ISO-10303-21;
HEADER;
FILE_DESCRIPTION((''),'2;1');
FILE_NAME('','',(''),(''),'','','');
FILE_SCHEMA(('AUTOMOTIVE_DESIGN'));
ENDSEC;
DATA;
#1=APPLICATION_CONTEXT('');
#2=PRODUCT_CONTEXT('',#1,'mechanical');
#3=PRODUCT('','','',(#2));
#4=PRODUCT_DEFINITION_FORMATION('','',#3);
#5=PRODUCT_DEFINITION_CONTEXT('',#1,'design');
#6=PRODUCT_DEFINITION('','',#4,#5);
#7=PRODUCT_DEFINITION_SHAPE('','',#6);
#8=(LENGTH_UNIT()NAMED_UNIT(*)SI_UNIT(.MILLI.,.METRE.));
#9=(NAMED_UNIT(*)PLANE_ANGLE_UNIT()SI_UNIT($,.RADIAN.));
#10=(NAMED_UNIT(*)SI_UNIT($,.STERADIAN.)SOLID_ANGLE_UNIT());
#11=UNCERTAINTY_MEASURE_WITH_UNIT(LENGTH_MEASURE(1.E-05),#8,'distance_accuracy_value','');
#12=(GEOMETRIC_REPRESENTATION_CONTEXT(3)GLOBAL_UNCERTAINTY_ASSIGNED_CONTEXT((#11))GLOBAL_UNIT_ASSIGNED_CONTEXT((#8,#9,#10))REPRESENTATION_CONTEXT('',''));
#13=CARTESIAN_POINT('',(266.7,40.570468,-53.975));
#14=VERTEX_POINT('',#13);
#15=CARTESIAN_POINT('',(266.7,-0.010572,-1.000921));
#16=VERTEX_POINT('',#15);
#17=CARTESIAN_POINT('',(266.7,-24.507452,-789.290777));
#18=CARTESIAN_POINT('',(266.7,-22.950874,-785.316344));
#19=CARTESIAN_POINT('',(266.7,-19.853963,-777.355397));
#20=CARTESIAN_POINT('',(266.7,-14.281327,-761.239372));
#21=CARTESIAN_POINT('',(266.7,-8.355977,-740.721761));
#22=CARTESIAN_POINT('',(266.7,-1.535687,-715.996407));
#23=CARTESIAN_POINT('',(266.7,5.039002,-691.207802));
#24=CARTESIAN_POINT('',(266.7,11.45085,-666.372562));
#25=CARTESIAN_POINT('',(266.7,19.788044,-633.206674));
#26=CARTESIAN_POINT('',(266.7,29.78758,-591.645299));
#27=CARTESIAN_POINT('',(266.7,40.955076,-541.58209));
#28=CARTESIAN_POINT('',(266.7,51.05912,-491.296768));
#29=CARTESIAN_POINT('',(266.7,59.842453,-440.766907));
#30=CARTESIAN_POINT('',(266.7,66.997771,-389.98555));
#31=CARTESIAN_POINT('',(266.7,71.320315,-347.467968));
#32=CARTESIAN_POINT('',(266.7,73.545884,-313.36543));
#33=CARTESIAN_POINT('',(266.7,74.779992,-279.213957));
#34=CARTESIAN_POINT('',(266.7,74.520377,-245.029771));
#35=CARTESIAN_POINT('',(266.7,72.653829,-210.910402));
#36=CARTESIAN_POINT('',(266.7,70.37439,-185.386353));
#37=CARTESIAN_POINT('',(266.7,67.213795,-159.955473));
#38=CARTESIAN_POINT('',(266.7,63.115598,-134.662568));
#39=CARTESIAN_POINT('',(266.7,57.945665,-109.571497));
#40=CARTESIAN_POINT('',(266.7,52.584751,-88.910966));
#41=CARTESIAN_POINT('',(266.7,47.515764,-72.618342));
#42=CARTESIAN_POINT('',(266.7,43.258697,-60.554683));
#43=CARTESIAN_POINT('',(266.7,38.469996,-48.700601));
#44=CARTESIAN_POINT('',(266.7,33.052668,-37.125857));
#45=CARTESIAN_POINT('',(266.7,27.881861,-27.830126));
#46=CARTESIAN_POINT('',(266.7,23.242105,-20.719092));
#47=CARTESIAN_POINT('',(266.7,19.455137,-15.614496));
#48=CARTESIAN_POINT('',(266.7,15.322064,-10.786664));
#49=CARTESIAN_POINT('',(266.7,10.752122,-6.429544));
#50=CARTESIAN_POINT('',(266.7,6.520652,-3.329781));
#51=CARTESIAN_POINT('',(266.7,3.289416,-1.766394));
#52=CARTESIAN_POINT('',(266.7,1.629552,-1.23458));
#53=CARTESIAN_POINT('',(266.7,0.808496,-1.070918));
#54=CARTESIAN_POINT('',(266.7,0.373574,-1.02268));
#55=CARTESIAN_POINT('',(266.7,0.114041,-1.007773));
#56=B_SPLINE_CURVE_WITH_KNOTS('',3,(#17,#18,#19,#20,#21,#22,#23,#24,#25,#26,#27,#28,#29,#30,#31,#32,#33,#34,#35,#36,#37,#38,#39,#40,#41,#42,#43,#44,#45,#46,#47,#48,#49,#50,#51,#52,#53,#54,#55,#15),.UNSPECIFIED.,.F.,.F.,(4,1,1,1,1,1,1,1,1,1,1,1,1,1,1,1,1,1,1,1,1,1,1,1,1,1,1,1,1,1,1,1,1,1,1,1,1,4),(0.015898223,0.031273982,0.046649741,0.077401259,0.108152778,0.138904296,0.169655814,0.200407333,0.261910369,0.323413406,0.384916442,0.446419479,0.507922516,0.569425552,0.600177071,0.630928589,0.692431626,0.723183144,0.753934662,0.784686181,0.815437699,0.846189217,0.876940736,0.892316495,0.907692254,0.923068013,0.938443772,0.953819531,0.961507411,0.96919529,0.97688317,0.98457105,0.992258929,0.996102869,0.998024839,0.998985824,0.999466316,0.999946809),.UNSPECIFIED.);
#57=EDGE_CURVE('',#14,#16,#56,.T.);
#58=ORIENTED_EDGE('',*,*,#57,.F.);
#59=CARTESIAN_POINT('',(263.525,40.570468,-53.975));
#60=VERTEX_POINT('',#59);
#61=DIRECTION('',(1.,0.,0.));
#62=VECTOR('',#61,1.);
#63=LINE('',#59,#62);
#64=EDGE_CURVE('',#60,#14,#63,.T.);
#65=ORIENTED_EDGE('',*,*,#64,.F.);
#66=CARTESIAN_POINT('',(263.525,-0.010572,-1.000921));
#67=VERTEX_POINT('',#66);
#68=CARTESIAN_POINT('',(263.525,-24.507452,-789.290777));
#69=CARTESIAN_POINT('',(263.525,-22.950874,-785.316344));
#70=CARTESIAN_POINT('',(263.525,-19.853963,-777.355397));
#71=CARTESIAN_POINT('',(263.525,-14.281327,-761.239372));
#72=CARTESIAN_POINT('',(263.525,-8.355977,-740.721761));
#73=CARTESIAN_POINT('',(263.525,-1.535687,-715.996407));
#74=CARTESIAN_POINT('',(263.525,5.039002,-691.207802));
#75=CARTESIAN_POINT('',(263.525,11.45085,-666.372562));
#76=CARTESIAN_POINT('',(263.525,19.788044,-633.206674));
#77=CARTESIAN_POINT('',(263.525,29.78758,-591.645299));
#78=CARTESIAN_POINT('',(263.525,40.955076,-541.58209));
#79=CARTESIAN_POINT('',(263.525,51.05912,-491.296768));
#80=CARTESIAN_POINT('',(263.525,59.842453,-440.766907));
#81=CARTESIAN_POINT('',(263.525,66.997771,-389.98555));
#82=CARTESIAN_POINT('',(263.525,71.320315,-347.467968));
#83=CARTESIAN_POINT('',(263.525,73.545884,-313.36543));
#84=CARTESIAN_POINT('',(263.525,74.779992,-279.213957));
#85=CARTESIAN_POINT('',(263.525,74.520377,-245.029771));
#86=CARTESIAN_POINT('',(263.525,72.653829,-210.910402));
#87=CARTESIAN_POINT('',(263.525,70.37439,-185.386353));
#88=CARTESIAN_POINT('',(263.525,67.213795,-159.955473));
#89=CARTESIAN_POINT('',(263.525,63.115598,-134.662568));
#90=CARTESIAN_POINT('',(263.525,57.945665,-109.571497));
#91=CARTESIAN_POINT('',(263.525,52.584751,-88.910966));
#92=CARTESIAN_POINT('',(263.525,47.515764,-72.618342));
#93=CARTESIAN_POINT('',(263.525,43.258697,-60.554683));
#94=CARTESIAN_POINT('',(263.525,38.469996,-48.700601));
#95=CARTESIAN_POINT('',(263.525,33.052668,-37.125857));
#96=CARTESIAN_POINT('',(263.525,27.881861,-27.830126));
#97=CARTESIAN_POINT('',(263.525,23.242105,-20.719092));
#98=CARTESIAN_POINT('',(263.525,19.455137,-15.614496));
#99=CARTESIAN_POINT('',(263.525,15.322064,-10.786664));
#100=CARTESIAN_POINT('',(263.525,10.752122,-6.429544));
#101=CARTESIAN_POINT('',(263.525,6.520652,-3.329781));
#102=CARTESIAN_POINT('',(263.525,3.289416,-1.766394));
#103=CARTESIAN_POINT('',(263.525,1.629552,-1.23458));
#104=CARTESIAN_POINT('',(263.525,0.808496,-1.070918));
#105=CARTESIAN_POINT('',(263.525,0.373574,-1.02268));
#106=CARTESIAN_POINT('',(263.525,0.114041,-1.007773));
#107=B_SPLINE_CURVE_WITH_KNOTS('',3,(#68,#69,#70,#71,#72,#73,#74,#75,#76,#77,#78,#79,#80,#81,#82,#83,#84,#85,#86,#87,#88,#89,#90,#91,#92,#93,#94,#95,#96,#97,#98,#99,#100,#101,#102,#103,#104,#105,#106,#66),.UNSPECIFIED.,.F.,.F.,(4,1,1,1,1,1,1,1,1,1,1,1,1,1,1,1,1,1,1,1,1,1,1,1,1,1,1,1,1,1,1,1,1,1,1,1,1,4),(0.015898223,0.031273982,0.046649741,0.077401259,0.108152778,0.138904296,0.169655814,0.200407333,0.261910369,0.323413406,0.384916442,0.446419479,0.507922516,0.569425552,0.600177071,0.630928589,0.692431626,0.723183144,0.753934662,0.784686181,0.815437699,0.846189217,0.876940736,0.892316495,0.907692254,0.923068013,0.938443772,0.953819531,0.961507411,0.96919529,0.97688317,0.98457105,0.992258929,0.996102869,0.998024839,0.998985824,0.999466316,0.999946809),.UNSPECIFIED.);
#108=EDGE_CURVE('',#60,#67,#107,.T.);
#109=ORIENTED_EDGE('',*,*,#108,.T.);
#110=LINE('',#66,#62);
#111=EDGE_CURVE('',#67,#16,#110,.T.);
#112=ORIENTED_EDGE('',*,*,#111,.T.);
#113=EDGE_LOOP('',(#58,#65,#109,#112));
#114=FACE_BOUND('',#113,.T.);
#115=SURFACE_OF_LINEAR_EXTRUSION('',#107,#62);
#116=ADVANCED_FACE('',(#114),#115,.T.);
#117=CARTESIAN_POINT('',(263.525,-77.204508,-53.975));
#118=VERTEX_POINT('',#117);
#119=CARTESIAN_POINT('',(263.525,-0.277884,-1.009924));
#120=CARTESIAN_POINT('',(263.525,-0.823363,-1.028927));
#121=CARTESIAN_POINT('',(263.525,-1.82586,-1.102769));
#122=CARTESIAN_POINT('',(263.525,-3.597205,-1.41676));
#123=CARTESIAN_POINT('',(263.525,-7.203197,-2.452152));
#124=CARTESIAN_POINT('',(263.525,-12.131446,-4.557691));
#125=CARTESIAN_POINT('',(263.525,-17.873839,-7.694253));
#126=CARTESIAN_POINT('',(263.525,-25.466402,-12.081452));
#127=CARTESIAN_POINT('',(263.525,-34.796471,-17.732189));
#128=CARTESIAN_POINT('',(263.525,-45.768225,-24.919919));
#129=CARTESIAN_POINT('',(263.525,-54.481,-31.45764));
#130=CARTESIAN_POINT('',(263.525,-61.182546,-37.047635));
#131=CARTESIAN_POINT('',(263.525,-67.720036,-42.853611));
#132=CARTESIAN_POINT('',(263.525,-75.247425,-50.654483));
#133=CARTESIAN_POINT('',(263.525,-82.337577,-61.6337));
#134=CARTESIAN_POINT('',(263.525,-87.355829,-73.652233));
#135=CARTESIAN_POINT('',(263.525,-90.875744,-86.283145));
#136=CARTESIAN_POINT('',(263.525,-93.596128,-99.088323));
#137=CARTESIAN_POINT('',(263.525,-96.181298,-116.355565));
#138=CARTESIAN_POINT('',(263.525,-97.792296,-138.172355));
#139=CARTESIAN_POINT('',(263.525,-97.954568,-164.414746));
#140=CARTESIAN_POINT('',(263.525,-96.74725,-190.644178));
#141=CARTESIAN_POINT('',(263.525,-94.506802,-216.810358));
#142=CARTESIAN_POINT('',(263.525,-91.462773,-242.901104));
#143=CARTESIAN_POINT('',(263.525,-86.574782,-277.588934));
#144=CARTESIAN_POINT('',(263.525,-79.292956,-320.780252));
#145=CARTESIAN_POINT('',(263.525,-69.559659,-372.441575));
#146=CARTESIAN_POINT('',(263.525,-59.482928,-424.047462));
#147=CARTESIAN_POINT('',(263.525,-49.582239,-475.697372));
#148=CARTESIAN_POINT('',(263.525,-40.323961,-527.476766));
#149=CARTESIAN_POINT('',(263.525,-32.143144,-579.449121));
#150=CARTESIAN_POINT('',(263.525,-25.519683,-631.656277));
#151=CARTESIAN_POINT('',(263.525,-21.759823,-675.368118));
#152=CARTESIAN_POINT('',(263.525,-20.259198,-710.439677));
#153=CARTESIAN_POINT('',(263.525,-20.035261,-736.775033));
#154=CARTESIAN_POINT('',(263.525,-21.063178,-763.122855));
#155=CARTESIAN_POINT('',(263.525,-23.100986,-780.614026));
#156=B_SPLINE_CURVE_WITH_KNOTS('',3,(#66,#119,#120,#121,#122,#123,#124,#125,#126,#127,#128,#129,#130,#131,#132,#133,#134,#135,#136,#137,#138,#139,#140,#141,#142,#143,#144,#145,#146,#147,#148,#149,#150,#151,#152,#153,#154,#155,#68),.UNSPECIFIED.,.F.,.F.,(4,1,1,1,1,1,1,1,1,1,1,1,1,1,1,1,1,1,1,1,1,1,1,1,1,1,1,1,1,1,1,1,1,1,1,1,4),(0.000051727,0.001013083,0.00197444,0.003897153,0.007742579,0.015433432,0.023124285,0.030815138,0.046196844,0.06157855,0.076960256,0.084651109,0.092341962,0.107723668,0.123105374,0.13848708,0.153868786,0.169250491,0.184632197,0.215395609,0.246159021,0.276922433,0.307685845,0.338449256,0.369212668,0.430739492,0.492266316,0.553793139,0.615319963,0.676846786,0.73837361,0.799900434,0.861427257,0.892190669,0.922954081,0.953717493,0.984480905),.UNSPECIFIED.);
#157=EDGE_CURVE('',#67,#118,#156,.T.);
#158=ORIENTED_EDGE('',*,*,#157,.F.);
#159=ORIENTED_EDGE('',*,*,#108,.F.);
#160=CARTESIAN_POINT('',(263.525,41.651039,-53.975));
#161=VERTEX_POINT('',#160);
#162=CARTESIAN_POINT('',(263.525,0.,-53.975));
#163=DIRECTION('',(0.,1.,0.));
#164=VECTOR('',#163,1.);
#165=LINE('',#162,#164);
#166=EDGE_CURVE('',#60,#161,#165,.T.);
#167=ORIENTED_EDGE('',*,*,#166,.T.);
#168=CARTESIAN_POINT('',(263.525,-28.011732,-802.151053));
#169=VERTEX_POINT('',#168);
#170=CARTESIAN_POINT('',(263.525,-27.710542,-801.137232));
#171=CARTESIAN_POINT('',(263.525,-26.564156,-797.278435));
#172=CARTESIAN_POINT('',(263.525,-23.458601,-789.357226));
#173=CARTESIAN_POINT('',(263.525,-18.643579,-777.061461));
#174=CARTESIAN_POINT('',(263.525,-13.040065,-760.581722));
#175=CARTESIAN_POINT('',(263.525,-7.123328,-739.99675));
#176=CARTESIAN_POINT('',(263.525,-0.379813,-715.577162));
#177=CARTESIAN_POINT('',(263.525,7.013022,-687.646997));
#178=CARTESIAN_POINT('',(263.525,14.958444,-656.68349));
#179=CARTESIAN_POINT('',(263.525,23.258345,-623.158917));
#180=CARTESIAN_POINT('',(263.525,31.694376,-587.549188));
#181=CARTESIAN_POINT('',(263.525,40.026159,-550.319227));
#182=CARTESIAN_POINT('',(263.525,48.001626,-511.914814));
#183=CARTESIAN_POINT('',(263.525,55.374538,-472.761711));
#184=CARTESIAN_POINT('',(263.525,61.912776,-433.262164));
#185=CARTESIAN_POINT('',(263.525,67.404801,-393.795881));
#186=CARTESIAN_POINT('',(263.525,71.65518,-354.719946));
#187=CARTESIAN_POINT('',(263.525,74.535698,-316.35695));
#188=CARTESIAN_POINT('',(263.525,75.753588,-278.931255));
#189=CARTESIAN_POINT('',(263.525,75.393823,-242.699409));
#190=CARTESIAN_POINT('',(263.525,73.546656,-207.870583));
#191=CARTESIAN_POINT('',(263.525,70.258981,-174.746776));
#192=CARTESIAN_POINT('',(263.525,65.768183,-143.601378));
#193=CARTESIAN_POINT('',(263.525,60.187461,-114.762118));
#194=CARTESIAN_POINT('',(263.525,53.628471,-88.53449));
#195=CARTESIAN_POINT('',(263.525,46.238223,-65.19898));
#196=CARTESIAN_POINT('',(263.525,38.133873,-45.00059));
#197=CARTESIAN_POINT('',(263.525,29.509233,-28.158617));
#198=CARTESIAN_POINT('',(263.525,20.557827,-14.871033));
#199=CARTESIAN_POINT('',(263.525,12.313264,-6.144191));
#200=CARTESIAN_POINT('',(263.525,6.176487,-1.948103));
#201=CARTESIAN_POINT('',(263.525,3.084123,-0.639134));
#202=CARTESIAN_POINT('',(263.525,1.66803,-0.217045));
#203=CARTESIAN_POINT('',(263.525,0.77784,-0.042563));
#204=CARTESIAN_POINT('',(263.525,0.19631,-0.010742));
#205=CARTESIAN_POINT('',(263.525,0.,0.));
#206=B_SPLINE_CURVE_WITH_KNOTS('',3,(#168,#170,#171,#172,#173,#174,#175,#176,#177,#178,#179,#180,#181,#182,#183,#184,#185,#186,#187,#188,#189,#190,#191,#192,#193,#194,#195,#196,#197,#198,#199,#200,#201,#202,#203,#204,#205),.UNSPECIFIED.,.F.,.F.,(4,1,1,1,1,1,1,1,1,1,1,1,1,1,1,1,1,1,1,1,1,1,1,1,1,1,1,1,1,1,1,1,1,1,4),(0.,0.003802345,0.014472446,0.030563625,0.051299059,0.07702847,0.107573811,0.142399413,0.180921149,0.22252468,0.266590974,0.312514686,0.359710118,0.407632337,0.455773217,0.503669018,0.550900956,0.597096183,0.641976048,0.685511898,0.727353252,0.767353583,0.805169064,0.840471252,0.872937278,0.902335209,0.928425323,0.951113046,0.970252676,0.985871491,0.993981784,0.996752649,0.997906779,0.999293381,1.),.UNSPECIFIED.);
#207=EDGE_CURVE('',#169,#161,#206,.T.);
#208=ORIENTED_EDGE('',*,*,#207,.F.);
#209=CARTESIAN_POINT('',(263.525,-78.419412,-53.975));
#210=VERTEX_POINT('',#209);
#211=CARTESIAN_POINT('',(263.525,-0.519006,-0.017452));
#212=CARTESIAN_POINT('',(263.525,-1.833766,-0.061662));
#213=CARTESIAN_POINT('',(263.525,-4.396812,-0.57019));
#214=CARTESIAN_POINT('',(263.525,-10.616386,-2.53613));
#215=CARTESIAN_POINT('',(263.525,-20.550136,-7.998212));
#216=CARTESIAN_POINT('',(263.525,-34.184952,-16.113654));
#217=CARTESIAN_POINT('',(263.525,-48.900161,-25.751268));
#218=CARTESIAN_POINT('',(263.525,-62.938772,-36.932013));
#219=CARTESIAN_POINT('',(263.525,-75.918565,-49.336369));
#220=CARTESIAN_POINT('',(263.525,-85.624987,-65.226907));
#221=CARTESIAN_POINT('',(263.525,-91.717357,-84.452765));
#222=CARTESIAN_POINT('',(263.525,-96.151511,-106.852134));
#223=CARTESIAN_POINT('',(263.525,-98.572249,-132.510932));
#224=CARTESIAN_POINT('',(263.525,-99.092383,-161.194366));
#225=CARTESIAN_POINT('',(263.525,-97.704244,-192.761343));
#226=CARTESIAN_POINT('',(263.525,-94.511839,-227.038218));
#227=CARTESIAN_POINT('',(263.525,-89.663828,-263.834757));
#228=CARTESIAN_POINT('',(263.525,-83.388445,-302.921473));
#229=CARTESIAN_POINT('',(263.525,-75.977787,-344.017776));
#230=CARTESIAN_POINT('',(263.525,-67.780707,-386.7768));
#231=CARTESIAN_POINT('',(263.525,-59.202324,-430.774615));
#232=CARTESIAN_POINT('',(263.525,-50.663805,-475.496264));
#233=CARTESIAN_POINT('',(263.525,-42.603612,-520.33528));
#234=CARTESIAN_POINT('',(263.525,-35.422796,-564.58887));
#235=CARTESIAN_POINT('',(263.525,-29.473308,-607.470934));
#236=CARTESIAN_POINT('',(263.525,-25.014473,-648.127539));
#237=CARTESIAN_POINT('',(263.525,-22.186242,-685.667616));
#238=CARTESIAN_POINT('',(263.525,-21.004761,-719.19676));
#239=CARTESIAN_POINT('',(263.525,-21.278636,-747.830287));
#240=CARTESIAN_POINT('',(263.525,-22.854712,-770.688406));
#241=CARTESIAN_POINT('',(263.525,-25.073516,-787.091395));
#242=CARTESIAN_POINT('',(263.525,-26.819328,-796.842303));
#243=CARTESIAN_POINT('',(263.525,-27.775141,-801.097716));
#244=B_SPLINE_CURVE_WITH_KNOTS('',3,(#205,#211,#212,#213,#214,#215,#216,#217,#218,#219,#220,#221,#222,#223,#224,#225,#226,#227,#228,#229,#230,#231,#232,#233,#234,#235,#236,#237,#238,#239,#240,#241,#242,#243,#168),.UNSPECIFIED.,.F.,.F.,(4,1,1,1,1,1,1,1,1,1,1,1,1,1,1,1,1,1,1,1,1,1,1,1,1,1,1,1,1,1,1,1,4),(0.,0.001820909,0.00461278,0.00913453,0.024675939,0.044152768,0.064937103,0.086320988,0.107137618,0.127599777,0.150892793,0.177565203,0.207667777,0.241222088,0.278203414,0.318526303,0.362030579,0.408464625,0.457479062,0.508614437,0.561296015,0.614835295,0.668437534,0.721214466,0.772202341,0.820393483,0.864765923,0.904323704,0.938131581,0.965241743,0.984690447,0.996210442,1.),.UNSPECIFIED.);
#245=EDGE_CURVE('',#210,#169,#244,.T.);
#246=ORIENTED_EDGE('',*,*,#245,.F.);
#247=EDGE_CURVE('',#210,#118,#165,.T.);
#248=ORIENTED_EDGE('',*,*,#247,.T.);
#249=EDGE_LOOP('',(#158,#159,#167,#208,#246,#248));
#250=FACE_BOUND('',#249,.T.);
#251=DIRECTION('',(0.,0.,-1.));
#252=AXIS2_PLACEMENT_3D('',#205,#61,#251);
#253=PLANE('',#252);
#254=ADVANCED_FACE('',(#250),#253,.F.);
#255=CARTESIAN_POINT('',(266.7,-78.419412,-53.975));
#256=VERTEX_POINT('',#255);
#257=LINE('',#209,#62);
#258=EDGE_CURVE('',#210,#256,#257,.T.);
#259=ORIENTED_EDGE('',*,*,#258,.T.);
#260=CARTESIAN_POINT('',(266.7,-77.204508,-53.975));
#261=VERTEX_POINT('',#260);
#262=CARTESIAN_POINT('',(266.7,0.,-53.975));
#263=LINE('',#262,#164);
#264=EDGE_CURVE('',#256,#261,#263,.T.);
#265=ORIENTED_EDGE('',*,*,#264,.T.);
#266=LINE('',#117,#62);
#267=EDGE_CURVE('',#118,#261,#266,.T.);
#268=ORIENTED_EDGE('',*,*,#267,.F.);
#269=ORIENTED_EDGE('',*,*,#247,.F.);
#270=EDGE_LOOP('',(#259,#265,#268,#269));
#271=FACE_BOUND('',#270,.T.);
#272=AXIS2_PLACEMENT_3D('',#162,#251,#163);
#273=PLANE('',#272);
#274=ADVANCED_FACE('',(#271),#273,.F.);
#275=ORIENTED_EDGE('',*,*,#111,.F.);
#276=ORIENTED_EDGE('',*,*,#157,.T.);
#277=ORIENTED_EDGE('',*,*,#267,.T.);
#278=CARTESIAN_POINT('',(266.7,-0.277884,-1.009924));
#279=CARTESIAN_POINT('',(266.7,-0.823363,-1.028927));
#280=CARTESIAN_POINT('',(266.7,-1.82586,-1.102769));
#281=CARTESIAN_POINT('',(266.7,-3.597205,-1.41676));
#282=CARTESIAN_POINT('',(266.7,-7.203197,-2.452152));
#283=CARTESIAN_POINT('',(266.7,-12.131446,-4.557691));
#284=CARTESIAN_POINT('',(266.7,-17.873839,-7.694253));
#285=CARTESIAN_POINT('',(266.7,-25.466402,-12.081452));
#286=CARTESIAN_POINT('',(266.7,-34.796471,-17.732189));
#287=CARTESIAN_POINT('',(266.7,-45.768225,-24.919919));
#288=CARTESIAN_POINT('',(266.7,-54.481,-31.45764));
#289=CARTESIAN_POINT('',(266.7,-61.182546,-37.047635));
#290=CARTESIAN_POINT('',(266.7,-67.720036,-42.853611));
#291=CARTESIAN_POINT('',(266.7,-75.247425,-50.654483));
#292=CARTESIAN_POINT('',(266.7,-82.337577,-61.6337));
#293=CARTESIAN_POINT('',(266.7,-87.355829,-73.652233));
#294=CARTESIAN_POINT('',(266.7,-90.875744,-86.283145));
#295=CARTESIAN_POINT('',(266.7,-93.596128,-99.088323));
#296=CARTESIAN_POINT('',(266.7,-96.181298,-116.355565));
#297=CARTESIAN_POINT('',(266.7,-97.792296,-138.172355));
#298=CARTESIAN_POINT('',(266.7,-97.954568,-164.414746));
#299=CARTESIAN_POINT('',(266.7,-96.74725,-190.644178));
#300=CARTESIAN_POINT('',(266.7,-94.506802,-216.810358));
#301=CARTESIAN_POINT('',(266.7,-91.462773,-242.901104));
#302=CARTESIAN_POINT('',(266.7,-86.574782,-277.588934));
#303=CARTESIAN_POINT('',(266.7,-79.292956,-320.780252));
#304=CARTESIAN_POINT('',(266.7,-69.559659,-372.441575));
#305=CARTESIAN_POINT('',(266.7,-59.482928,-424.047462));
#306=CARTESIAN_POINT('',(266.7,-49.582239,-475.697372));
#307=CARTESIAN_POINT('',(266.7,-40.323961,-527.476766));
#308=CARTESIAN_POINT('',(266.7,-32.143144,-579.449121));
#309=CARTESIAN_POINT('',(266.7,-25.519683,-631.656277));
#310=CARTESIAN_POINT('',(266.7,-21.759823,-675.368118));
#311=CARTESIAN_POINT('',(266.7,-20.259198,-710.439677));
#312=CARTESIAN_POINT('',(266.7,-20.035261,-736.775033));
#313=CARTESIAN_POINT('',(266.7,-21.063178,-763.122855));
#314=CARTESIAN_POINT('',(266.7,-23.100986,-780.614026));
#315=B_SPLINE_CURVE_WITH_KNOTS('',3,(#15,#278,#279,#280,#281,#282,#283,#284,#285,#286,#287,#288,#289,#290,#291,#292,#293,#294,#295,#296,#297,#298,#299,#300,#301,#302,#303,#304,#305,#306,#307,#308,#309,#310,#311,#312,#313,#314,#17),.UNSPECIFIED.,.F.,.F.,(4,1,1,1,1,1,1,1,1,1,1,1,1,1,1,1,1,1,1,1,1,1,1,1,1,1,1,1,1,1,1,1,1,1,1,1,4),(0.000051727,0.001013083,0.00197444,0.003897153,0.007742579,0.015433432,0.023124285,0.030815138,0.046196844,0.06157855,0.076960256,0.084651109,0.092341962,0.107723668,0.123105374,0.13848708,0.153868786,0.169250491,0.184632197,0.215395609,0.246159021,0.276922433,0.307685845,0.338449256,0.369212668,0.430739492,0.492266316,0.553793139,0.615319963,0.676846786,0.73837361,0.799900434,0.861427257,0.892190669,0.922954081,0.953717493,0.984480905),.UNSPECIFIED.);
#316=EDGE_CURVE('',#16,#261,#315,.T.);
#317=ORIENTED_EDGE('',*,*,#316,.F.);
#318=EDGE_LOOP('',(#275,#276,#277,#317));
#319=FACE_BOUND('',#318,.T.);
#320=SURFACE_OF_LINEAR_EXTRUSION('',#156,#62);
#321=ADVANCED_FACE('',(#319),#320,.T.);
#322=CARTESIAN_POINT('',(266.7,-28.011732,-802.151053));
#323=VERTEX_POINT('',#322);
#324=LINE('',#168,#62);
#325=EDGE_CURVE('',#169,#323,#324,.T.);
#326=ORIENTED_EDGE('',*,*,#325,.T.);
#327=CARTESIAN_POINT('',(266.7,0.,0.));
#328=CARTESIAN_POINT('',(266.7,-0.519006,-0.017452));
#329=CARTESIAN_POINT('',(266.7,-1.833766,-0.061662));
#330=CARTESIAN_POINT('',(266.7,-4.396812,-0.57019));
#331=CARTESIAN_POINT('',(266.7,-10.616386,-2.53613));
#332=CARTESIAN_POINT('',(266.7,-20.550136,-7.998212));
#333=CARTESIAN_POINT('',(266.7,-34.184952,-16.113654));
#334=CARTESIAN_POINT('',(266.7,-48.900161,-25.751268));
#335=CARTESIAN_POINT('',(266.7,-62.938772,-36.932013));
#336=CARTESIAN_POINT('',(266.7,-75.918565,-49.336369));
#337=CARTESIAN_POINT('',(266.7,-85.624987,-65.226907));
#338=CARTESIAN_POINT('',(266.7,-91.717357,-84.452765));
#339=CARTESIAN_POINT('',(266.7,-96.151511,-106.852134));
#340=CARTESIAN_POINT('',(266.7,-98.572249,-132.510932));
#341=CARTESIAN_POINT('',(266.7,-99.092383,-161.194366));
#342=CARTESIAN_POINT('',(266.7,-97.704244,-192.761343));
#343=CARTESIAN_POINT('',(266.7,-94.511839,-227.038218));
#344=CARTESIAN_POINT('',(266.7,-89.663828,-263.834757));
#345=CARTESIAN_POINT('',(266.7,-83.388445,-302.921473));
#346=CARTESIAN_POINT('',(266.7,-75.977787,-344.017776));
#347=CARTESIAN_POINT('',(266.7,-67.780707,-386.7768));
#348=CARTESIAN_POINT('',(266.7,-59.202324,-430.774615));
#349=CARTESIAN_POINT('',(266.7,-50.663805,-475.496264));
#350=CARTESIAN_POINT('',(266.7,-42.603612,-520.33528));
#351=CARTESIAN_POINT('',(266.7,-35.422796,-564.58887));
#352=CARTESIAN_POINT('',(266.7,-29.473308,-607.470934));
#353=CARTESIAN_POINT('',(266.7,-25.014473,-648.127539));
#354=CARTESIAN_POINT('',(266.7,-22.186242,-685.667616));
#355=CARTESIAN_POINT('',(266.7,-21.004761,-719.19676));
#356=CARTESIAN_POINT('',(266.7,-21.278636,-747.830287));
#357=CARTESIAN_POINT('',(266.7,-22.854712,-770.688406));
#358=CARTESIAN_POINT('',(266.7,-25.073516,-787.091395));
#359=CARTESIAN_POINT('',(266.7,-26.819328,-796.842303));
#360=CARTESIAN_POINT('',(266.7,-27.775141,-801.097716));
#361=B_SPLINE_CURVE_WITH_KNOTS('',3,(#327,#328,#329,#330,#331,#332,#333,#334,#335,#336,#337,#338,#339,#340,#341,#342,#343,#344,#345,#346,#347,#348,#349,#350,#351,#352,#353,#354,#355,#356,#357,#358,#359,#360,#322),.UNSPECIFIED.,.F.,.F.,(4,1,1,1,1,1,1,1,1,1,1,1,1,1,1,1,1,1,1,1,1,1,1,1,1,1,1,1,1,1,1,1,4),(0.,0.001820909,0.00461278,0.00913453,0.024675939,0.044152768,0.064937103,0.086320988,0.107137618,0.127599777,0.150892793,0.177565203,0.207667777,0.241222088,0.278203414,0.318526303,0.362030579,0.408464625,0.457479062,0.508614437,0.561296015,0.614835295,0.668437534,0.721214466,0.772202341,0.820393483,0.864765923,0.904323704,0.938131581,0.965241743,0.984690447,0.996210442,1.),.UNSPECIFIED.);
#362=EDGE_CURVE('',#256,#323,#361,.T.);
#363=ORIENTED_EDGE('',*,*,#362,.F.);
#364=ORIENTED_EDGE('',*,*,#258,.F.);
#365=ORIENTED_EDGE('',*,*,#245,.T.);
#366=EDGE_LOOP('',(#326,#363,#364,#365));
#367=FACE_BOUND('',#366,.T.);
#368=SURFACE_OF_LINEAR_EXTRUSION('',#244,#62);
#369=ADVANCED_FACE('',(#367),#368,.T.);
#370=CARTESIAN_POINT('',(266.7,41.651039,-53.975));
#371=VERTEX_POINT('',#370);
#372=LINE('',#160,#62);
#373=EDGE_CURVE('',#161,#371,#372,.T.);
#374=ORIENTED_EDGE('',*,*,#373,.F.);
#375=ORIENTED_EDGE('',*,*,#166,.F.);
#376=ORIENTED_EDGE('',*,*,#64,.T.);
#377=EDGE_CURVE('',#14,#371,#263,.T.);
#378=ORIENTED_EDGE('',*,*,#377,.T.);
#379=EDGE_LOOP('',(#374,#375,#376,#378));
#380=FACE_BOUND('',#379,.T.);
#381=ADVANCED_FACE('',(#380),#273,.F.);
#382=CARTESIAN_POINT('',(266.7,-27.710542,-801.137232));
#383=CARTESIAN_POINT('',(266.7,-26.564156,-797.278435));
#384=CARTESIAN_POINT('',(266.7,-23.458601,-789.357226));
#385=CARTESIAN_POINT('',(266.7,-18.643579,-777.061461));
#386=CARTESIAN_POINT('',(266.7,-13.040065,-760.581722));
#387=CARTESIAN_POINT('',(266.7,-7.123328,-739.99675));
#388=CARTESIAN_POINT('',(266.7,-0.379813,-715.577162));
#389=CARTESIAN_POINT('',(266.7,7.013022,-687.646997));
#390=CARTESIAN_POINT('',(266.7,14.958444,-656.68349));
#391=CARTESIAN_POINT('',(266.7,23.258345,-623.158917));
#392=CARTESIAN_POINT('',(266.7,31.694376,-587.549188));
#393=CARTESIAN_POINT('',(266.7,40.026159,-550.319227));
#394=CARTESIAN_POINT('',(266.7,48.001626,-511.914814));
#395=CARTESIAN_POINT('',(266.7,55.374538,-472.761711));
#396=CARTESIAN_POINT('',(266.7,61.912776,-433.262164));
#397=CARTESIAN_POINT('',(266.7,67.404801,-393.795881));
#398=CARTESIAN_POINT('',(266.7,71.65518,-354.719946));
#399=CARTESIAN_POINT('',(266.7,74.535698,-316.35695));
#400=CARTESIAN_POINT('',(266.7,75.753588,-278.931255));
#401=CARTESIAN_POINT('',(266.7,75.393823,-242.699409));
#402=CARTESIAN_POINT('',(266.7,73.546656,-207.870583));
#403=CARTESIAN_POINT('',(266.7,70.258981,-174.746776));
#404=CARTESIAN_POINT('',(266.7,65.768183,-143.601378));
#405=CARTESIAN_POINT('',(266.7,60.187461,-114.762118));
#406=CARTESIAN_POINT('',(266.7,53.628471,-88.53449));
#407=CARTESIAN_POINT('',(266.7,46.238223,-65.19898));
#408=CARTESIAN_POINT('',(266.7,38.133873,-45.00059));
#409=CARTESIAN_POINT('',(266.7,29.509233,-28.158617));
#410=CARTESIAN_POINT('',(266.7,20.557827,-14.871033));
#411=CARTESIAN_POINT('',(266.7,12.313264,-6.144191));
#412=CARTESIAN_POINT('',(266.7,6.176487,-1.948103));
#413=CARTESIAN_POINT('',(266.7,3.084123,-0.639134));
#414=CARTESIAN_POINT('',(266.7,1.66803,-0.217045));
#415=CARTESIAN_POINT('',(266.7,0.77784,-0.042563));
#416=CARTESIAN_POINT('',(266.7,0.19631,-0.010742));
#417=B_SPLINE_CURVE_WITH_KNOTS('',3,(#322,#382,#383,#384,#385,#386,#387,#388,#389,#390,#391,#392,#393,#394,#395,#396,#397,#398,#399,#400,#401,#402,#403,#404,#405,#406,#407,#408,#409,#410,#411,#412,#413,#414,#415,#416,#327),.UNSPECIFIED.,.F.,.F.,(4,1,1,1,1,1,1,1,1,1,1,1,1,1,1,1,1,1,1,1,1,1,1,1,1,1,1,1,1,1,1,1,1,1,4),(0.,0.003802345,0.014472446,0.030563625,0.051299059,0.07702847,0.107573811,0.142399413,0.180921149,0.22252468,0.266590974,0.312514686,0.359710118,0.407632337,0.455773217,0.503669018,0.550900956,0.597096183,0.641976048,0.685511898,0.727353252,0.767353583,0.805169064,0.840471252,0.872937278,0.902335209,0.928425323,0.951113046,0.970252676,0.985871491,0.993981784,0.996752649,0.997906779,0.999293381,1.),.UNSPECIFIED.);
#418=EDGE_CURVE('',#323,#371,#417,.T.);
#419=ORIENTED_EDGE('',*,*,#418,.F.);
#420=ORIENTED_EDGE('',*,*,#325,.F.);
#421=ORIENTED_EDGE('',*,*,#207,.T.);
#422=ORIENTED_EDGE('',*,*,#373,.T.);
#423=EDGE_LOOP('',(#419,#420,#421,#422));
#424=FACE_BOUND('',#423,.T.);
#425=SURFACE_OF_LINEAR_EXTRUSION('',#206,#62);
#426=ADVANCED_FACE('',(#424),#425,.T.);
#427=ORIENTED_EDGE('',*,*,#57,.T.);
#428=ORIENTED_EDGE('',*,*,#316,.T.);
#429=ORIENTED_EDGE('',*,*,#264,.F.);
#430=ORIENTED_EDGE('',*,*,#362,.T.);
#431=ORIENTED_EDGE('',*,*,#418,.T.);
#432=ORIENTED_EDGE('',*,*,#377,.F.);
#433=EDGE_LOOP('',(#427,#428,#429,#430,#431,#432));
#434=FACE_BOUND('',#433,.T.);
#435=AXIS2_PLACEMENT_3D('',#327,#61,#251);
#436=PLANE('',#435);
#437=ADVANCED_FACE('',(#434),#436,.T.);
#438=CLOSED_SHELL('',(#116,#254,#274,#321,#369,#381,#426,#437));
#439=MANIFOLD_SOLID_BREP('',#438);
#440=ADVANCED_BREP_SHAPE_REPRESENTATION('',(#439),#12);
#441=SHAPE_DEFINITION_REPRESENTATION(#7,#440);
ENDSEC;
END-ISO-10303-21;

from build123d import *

# Parameters (mm, degrees)
BOSS_EXTRUDE2_DEPTH = 3.175


with BuildPart() as part:
    # Sketch2 → Boss-Extrude2 (new body)
    with BuildSketch(Plane(origin=(266.7, 0, 0), x_dir=(0, 0, -1), z_dir=(1, 0, 0))):
        with BuildLine():
            Line((53.975, -77.204508027), (53.975, -78.419412207))
            add(Edge.make_bspline(
                [(53.975, -78.419412207), (57.393939715, -80.776121472), (66.842733973, -86.13701714), (84.452765046, -91.717357185), (106.852134498, -96.151510734), (132.510932076, -98.572249175), (161.194365788, -99.092382868), (192.761343292, -97.704243711), (227.038217577, -94.511839296), (263.834756502, -89.663828123), (302.921473177, -83.388445028), (344.017776041, -75.977786804), (386.776799789, -67.780707382), (430.77461487, -59.202323955), (475.496263681, -50.66380512), (520.335279967, -42.603612471), (564.588870456, -35.422796347), (607.4709344, -29.473308084), (648.127538759, -25.014473383), (685.667615873, -22.186241782), (719.196759596, -21.00476141), (747.830287498, -21.278636312), (770.688405743, -22.854711922), (787.091395164, -25.07351564), (796.842303095, -26.819328187), (801.097715575, -27.775140745), (802.151053399, -28.011732033)],
                knots=[0.113056669, 0.113056669, 0.113056669, 0.113056669, 0.127599777, 0.150892793, 0.177565203, 0.207667777, 0.241222088, 0.278203414, 0.318526303, 0.362030579, 0.408464625, 0.457479062, 0.508614437, 0.561296015, 0.614835295, 0.668437534, 0.721214466, 0.772202341, 0.820393483, 0.864765923, 0.904323704, 0.938131581, 0.965241743, 0.984690447, 0.996210442, 1, 1, 1, 1], degree=3))
            add(Edge.make_bspline(
                [(802.151053399, -28.011732033), (801.137231832, -27.710542124), (797.278434829, -26.564156251), (789.357225956, -23.458600593), (777.06146068, -18.643579076), (760.581722214, -13.040064966), (739.99675031, -7.1233282), (715.577161881, -0.379813283), (687.646997389, 7.013021798), (656.683490083, 14.958443735), (623.15891656, 23.258345049), (587.549187868, 31.694376174), (550.31922689, 40.026159278), (511.914813655, 48.001625947), (472.761711337, 55.374538475), (433.262164148, 61.912775617), (393.795881302, 67.404801186), (354.719946084, 71.655180259), (316.356950184, 74.535698451), (278.931254814, 75.753587714), (242.69940893, 75.393823286), (207.870582877, 73.546655951), (174.746776105, 70.258980652), (143.601377813, 65.768183379), (114.762118239, 60.187460639), (88.534490153, 53.628471164), (68.561648347, 47.303164595), (57.431887436, 43.056839639), (53.975, 41.651039403)],
                knots=[0, 0, 0, 0, 0.003802345, 0.014472446, 0.030563625, 0.051299059, 0.07702847, 0.107573811, 0.142399413, 0.180921149, 0.22252468, 0.266590974, 0.312514686, 0.359710118, 0.407632337, 0.455773217, 0.503669018, 0.550900956, 0.597096183, 0.641976048, 0.685511898, 0.727353252, 0.767353583, 0.805169064, 0.840471252, 0.872937278, 0.902335209, 0.915751061, 0.915751061, 0.915751061, 0.915751061], degree=3))
            Line((53.975, 41.651039403), (53.975, 40.570467669))
            add(Edge.make_bspline(
                [(53.975, 40.570467669), (52.223886058, 39.855098624), (46.55545684, 37.466004168), (37.125856967, 33.052667662), (27.830126078, 27.881861429), (20.719091852, 23.242104552), (15.614495512, 19.455137028), (10.786663524, 15.322063664), (6.429543979, 10.752121577), (3.329781232, 6.520651809), (1.766394253, 3.289416468), (1.234579927, 1.629552357), (1.070917704, 0.808496148), (1.022680145, 0.373573872), (1.00777339, 0.114040658), (1.00092143, -0.010571576)],
                knots=[0.916241011, 0.916241011, 0.916241011, 0.916241011, 0.923068013, 0.938443772, 0.953819531, 0.961507411, 0.96919529, 0.97688317, 0.98457105, 0.992258929, 0.996102869, 0.998024839, 0.998985824, 0.999466316, 0.999946809, 0.999946809, 0.999946809, 0.999946809], degree=3))
            add(Edge.make_bspline(
                [(1.00092143, -0.010571576), (1.009923866, -0.277884036), (1.028927427, -0.823363497), (1.102768583, -1.825860344), (1.416760314, -3.597204949), (2.45215177, -7.203197251), (4.557690792, -12.131446446), (7.694252843, -17.87383852), (12.081452023, -25.466401501), (17.732189245, -34.79647061), (24.919919042, -45.768224894), (31.457640354, -54.481000173), (37.047635253, -61.18254607), (42.853610743, -67.720036372), (48.449554365, -73.119796986), (52.936471607, -76.472448044), (53.975, -77.204508027)],
                knots=[5.1727e-05, 5.1727e-05, 5.1727e-05, 5.1727e-05, 0.001013083, 0.00197444, 0.003897153, 0.007742579, 0.015433432, 0.023124285, 0.030815138, 0.046196844, 0.06157855, 0.076960256, 0.084651109, 0.092341962, 0.107723668, 0.112236216, 0.112236216, 0.112236216, 0.112236216], degree=3))
        make_face()
    extrude(amount=-BOSS_EXTRUDE2_DEPTH)


solid = part.part
